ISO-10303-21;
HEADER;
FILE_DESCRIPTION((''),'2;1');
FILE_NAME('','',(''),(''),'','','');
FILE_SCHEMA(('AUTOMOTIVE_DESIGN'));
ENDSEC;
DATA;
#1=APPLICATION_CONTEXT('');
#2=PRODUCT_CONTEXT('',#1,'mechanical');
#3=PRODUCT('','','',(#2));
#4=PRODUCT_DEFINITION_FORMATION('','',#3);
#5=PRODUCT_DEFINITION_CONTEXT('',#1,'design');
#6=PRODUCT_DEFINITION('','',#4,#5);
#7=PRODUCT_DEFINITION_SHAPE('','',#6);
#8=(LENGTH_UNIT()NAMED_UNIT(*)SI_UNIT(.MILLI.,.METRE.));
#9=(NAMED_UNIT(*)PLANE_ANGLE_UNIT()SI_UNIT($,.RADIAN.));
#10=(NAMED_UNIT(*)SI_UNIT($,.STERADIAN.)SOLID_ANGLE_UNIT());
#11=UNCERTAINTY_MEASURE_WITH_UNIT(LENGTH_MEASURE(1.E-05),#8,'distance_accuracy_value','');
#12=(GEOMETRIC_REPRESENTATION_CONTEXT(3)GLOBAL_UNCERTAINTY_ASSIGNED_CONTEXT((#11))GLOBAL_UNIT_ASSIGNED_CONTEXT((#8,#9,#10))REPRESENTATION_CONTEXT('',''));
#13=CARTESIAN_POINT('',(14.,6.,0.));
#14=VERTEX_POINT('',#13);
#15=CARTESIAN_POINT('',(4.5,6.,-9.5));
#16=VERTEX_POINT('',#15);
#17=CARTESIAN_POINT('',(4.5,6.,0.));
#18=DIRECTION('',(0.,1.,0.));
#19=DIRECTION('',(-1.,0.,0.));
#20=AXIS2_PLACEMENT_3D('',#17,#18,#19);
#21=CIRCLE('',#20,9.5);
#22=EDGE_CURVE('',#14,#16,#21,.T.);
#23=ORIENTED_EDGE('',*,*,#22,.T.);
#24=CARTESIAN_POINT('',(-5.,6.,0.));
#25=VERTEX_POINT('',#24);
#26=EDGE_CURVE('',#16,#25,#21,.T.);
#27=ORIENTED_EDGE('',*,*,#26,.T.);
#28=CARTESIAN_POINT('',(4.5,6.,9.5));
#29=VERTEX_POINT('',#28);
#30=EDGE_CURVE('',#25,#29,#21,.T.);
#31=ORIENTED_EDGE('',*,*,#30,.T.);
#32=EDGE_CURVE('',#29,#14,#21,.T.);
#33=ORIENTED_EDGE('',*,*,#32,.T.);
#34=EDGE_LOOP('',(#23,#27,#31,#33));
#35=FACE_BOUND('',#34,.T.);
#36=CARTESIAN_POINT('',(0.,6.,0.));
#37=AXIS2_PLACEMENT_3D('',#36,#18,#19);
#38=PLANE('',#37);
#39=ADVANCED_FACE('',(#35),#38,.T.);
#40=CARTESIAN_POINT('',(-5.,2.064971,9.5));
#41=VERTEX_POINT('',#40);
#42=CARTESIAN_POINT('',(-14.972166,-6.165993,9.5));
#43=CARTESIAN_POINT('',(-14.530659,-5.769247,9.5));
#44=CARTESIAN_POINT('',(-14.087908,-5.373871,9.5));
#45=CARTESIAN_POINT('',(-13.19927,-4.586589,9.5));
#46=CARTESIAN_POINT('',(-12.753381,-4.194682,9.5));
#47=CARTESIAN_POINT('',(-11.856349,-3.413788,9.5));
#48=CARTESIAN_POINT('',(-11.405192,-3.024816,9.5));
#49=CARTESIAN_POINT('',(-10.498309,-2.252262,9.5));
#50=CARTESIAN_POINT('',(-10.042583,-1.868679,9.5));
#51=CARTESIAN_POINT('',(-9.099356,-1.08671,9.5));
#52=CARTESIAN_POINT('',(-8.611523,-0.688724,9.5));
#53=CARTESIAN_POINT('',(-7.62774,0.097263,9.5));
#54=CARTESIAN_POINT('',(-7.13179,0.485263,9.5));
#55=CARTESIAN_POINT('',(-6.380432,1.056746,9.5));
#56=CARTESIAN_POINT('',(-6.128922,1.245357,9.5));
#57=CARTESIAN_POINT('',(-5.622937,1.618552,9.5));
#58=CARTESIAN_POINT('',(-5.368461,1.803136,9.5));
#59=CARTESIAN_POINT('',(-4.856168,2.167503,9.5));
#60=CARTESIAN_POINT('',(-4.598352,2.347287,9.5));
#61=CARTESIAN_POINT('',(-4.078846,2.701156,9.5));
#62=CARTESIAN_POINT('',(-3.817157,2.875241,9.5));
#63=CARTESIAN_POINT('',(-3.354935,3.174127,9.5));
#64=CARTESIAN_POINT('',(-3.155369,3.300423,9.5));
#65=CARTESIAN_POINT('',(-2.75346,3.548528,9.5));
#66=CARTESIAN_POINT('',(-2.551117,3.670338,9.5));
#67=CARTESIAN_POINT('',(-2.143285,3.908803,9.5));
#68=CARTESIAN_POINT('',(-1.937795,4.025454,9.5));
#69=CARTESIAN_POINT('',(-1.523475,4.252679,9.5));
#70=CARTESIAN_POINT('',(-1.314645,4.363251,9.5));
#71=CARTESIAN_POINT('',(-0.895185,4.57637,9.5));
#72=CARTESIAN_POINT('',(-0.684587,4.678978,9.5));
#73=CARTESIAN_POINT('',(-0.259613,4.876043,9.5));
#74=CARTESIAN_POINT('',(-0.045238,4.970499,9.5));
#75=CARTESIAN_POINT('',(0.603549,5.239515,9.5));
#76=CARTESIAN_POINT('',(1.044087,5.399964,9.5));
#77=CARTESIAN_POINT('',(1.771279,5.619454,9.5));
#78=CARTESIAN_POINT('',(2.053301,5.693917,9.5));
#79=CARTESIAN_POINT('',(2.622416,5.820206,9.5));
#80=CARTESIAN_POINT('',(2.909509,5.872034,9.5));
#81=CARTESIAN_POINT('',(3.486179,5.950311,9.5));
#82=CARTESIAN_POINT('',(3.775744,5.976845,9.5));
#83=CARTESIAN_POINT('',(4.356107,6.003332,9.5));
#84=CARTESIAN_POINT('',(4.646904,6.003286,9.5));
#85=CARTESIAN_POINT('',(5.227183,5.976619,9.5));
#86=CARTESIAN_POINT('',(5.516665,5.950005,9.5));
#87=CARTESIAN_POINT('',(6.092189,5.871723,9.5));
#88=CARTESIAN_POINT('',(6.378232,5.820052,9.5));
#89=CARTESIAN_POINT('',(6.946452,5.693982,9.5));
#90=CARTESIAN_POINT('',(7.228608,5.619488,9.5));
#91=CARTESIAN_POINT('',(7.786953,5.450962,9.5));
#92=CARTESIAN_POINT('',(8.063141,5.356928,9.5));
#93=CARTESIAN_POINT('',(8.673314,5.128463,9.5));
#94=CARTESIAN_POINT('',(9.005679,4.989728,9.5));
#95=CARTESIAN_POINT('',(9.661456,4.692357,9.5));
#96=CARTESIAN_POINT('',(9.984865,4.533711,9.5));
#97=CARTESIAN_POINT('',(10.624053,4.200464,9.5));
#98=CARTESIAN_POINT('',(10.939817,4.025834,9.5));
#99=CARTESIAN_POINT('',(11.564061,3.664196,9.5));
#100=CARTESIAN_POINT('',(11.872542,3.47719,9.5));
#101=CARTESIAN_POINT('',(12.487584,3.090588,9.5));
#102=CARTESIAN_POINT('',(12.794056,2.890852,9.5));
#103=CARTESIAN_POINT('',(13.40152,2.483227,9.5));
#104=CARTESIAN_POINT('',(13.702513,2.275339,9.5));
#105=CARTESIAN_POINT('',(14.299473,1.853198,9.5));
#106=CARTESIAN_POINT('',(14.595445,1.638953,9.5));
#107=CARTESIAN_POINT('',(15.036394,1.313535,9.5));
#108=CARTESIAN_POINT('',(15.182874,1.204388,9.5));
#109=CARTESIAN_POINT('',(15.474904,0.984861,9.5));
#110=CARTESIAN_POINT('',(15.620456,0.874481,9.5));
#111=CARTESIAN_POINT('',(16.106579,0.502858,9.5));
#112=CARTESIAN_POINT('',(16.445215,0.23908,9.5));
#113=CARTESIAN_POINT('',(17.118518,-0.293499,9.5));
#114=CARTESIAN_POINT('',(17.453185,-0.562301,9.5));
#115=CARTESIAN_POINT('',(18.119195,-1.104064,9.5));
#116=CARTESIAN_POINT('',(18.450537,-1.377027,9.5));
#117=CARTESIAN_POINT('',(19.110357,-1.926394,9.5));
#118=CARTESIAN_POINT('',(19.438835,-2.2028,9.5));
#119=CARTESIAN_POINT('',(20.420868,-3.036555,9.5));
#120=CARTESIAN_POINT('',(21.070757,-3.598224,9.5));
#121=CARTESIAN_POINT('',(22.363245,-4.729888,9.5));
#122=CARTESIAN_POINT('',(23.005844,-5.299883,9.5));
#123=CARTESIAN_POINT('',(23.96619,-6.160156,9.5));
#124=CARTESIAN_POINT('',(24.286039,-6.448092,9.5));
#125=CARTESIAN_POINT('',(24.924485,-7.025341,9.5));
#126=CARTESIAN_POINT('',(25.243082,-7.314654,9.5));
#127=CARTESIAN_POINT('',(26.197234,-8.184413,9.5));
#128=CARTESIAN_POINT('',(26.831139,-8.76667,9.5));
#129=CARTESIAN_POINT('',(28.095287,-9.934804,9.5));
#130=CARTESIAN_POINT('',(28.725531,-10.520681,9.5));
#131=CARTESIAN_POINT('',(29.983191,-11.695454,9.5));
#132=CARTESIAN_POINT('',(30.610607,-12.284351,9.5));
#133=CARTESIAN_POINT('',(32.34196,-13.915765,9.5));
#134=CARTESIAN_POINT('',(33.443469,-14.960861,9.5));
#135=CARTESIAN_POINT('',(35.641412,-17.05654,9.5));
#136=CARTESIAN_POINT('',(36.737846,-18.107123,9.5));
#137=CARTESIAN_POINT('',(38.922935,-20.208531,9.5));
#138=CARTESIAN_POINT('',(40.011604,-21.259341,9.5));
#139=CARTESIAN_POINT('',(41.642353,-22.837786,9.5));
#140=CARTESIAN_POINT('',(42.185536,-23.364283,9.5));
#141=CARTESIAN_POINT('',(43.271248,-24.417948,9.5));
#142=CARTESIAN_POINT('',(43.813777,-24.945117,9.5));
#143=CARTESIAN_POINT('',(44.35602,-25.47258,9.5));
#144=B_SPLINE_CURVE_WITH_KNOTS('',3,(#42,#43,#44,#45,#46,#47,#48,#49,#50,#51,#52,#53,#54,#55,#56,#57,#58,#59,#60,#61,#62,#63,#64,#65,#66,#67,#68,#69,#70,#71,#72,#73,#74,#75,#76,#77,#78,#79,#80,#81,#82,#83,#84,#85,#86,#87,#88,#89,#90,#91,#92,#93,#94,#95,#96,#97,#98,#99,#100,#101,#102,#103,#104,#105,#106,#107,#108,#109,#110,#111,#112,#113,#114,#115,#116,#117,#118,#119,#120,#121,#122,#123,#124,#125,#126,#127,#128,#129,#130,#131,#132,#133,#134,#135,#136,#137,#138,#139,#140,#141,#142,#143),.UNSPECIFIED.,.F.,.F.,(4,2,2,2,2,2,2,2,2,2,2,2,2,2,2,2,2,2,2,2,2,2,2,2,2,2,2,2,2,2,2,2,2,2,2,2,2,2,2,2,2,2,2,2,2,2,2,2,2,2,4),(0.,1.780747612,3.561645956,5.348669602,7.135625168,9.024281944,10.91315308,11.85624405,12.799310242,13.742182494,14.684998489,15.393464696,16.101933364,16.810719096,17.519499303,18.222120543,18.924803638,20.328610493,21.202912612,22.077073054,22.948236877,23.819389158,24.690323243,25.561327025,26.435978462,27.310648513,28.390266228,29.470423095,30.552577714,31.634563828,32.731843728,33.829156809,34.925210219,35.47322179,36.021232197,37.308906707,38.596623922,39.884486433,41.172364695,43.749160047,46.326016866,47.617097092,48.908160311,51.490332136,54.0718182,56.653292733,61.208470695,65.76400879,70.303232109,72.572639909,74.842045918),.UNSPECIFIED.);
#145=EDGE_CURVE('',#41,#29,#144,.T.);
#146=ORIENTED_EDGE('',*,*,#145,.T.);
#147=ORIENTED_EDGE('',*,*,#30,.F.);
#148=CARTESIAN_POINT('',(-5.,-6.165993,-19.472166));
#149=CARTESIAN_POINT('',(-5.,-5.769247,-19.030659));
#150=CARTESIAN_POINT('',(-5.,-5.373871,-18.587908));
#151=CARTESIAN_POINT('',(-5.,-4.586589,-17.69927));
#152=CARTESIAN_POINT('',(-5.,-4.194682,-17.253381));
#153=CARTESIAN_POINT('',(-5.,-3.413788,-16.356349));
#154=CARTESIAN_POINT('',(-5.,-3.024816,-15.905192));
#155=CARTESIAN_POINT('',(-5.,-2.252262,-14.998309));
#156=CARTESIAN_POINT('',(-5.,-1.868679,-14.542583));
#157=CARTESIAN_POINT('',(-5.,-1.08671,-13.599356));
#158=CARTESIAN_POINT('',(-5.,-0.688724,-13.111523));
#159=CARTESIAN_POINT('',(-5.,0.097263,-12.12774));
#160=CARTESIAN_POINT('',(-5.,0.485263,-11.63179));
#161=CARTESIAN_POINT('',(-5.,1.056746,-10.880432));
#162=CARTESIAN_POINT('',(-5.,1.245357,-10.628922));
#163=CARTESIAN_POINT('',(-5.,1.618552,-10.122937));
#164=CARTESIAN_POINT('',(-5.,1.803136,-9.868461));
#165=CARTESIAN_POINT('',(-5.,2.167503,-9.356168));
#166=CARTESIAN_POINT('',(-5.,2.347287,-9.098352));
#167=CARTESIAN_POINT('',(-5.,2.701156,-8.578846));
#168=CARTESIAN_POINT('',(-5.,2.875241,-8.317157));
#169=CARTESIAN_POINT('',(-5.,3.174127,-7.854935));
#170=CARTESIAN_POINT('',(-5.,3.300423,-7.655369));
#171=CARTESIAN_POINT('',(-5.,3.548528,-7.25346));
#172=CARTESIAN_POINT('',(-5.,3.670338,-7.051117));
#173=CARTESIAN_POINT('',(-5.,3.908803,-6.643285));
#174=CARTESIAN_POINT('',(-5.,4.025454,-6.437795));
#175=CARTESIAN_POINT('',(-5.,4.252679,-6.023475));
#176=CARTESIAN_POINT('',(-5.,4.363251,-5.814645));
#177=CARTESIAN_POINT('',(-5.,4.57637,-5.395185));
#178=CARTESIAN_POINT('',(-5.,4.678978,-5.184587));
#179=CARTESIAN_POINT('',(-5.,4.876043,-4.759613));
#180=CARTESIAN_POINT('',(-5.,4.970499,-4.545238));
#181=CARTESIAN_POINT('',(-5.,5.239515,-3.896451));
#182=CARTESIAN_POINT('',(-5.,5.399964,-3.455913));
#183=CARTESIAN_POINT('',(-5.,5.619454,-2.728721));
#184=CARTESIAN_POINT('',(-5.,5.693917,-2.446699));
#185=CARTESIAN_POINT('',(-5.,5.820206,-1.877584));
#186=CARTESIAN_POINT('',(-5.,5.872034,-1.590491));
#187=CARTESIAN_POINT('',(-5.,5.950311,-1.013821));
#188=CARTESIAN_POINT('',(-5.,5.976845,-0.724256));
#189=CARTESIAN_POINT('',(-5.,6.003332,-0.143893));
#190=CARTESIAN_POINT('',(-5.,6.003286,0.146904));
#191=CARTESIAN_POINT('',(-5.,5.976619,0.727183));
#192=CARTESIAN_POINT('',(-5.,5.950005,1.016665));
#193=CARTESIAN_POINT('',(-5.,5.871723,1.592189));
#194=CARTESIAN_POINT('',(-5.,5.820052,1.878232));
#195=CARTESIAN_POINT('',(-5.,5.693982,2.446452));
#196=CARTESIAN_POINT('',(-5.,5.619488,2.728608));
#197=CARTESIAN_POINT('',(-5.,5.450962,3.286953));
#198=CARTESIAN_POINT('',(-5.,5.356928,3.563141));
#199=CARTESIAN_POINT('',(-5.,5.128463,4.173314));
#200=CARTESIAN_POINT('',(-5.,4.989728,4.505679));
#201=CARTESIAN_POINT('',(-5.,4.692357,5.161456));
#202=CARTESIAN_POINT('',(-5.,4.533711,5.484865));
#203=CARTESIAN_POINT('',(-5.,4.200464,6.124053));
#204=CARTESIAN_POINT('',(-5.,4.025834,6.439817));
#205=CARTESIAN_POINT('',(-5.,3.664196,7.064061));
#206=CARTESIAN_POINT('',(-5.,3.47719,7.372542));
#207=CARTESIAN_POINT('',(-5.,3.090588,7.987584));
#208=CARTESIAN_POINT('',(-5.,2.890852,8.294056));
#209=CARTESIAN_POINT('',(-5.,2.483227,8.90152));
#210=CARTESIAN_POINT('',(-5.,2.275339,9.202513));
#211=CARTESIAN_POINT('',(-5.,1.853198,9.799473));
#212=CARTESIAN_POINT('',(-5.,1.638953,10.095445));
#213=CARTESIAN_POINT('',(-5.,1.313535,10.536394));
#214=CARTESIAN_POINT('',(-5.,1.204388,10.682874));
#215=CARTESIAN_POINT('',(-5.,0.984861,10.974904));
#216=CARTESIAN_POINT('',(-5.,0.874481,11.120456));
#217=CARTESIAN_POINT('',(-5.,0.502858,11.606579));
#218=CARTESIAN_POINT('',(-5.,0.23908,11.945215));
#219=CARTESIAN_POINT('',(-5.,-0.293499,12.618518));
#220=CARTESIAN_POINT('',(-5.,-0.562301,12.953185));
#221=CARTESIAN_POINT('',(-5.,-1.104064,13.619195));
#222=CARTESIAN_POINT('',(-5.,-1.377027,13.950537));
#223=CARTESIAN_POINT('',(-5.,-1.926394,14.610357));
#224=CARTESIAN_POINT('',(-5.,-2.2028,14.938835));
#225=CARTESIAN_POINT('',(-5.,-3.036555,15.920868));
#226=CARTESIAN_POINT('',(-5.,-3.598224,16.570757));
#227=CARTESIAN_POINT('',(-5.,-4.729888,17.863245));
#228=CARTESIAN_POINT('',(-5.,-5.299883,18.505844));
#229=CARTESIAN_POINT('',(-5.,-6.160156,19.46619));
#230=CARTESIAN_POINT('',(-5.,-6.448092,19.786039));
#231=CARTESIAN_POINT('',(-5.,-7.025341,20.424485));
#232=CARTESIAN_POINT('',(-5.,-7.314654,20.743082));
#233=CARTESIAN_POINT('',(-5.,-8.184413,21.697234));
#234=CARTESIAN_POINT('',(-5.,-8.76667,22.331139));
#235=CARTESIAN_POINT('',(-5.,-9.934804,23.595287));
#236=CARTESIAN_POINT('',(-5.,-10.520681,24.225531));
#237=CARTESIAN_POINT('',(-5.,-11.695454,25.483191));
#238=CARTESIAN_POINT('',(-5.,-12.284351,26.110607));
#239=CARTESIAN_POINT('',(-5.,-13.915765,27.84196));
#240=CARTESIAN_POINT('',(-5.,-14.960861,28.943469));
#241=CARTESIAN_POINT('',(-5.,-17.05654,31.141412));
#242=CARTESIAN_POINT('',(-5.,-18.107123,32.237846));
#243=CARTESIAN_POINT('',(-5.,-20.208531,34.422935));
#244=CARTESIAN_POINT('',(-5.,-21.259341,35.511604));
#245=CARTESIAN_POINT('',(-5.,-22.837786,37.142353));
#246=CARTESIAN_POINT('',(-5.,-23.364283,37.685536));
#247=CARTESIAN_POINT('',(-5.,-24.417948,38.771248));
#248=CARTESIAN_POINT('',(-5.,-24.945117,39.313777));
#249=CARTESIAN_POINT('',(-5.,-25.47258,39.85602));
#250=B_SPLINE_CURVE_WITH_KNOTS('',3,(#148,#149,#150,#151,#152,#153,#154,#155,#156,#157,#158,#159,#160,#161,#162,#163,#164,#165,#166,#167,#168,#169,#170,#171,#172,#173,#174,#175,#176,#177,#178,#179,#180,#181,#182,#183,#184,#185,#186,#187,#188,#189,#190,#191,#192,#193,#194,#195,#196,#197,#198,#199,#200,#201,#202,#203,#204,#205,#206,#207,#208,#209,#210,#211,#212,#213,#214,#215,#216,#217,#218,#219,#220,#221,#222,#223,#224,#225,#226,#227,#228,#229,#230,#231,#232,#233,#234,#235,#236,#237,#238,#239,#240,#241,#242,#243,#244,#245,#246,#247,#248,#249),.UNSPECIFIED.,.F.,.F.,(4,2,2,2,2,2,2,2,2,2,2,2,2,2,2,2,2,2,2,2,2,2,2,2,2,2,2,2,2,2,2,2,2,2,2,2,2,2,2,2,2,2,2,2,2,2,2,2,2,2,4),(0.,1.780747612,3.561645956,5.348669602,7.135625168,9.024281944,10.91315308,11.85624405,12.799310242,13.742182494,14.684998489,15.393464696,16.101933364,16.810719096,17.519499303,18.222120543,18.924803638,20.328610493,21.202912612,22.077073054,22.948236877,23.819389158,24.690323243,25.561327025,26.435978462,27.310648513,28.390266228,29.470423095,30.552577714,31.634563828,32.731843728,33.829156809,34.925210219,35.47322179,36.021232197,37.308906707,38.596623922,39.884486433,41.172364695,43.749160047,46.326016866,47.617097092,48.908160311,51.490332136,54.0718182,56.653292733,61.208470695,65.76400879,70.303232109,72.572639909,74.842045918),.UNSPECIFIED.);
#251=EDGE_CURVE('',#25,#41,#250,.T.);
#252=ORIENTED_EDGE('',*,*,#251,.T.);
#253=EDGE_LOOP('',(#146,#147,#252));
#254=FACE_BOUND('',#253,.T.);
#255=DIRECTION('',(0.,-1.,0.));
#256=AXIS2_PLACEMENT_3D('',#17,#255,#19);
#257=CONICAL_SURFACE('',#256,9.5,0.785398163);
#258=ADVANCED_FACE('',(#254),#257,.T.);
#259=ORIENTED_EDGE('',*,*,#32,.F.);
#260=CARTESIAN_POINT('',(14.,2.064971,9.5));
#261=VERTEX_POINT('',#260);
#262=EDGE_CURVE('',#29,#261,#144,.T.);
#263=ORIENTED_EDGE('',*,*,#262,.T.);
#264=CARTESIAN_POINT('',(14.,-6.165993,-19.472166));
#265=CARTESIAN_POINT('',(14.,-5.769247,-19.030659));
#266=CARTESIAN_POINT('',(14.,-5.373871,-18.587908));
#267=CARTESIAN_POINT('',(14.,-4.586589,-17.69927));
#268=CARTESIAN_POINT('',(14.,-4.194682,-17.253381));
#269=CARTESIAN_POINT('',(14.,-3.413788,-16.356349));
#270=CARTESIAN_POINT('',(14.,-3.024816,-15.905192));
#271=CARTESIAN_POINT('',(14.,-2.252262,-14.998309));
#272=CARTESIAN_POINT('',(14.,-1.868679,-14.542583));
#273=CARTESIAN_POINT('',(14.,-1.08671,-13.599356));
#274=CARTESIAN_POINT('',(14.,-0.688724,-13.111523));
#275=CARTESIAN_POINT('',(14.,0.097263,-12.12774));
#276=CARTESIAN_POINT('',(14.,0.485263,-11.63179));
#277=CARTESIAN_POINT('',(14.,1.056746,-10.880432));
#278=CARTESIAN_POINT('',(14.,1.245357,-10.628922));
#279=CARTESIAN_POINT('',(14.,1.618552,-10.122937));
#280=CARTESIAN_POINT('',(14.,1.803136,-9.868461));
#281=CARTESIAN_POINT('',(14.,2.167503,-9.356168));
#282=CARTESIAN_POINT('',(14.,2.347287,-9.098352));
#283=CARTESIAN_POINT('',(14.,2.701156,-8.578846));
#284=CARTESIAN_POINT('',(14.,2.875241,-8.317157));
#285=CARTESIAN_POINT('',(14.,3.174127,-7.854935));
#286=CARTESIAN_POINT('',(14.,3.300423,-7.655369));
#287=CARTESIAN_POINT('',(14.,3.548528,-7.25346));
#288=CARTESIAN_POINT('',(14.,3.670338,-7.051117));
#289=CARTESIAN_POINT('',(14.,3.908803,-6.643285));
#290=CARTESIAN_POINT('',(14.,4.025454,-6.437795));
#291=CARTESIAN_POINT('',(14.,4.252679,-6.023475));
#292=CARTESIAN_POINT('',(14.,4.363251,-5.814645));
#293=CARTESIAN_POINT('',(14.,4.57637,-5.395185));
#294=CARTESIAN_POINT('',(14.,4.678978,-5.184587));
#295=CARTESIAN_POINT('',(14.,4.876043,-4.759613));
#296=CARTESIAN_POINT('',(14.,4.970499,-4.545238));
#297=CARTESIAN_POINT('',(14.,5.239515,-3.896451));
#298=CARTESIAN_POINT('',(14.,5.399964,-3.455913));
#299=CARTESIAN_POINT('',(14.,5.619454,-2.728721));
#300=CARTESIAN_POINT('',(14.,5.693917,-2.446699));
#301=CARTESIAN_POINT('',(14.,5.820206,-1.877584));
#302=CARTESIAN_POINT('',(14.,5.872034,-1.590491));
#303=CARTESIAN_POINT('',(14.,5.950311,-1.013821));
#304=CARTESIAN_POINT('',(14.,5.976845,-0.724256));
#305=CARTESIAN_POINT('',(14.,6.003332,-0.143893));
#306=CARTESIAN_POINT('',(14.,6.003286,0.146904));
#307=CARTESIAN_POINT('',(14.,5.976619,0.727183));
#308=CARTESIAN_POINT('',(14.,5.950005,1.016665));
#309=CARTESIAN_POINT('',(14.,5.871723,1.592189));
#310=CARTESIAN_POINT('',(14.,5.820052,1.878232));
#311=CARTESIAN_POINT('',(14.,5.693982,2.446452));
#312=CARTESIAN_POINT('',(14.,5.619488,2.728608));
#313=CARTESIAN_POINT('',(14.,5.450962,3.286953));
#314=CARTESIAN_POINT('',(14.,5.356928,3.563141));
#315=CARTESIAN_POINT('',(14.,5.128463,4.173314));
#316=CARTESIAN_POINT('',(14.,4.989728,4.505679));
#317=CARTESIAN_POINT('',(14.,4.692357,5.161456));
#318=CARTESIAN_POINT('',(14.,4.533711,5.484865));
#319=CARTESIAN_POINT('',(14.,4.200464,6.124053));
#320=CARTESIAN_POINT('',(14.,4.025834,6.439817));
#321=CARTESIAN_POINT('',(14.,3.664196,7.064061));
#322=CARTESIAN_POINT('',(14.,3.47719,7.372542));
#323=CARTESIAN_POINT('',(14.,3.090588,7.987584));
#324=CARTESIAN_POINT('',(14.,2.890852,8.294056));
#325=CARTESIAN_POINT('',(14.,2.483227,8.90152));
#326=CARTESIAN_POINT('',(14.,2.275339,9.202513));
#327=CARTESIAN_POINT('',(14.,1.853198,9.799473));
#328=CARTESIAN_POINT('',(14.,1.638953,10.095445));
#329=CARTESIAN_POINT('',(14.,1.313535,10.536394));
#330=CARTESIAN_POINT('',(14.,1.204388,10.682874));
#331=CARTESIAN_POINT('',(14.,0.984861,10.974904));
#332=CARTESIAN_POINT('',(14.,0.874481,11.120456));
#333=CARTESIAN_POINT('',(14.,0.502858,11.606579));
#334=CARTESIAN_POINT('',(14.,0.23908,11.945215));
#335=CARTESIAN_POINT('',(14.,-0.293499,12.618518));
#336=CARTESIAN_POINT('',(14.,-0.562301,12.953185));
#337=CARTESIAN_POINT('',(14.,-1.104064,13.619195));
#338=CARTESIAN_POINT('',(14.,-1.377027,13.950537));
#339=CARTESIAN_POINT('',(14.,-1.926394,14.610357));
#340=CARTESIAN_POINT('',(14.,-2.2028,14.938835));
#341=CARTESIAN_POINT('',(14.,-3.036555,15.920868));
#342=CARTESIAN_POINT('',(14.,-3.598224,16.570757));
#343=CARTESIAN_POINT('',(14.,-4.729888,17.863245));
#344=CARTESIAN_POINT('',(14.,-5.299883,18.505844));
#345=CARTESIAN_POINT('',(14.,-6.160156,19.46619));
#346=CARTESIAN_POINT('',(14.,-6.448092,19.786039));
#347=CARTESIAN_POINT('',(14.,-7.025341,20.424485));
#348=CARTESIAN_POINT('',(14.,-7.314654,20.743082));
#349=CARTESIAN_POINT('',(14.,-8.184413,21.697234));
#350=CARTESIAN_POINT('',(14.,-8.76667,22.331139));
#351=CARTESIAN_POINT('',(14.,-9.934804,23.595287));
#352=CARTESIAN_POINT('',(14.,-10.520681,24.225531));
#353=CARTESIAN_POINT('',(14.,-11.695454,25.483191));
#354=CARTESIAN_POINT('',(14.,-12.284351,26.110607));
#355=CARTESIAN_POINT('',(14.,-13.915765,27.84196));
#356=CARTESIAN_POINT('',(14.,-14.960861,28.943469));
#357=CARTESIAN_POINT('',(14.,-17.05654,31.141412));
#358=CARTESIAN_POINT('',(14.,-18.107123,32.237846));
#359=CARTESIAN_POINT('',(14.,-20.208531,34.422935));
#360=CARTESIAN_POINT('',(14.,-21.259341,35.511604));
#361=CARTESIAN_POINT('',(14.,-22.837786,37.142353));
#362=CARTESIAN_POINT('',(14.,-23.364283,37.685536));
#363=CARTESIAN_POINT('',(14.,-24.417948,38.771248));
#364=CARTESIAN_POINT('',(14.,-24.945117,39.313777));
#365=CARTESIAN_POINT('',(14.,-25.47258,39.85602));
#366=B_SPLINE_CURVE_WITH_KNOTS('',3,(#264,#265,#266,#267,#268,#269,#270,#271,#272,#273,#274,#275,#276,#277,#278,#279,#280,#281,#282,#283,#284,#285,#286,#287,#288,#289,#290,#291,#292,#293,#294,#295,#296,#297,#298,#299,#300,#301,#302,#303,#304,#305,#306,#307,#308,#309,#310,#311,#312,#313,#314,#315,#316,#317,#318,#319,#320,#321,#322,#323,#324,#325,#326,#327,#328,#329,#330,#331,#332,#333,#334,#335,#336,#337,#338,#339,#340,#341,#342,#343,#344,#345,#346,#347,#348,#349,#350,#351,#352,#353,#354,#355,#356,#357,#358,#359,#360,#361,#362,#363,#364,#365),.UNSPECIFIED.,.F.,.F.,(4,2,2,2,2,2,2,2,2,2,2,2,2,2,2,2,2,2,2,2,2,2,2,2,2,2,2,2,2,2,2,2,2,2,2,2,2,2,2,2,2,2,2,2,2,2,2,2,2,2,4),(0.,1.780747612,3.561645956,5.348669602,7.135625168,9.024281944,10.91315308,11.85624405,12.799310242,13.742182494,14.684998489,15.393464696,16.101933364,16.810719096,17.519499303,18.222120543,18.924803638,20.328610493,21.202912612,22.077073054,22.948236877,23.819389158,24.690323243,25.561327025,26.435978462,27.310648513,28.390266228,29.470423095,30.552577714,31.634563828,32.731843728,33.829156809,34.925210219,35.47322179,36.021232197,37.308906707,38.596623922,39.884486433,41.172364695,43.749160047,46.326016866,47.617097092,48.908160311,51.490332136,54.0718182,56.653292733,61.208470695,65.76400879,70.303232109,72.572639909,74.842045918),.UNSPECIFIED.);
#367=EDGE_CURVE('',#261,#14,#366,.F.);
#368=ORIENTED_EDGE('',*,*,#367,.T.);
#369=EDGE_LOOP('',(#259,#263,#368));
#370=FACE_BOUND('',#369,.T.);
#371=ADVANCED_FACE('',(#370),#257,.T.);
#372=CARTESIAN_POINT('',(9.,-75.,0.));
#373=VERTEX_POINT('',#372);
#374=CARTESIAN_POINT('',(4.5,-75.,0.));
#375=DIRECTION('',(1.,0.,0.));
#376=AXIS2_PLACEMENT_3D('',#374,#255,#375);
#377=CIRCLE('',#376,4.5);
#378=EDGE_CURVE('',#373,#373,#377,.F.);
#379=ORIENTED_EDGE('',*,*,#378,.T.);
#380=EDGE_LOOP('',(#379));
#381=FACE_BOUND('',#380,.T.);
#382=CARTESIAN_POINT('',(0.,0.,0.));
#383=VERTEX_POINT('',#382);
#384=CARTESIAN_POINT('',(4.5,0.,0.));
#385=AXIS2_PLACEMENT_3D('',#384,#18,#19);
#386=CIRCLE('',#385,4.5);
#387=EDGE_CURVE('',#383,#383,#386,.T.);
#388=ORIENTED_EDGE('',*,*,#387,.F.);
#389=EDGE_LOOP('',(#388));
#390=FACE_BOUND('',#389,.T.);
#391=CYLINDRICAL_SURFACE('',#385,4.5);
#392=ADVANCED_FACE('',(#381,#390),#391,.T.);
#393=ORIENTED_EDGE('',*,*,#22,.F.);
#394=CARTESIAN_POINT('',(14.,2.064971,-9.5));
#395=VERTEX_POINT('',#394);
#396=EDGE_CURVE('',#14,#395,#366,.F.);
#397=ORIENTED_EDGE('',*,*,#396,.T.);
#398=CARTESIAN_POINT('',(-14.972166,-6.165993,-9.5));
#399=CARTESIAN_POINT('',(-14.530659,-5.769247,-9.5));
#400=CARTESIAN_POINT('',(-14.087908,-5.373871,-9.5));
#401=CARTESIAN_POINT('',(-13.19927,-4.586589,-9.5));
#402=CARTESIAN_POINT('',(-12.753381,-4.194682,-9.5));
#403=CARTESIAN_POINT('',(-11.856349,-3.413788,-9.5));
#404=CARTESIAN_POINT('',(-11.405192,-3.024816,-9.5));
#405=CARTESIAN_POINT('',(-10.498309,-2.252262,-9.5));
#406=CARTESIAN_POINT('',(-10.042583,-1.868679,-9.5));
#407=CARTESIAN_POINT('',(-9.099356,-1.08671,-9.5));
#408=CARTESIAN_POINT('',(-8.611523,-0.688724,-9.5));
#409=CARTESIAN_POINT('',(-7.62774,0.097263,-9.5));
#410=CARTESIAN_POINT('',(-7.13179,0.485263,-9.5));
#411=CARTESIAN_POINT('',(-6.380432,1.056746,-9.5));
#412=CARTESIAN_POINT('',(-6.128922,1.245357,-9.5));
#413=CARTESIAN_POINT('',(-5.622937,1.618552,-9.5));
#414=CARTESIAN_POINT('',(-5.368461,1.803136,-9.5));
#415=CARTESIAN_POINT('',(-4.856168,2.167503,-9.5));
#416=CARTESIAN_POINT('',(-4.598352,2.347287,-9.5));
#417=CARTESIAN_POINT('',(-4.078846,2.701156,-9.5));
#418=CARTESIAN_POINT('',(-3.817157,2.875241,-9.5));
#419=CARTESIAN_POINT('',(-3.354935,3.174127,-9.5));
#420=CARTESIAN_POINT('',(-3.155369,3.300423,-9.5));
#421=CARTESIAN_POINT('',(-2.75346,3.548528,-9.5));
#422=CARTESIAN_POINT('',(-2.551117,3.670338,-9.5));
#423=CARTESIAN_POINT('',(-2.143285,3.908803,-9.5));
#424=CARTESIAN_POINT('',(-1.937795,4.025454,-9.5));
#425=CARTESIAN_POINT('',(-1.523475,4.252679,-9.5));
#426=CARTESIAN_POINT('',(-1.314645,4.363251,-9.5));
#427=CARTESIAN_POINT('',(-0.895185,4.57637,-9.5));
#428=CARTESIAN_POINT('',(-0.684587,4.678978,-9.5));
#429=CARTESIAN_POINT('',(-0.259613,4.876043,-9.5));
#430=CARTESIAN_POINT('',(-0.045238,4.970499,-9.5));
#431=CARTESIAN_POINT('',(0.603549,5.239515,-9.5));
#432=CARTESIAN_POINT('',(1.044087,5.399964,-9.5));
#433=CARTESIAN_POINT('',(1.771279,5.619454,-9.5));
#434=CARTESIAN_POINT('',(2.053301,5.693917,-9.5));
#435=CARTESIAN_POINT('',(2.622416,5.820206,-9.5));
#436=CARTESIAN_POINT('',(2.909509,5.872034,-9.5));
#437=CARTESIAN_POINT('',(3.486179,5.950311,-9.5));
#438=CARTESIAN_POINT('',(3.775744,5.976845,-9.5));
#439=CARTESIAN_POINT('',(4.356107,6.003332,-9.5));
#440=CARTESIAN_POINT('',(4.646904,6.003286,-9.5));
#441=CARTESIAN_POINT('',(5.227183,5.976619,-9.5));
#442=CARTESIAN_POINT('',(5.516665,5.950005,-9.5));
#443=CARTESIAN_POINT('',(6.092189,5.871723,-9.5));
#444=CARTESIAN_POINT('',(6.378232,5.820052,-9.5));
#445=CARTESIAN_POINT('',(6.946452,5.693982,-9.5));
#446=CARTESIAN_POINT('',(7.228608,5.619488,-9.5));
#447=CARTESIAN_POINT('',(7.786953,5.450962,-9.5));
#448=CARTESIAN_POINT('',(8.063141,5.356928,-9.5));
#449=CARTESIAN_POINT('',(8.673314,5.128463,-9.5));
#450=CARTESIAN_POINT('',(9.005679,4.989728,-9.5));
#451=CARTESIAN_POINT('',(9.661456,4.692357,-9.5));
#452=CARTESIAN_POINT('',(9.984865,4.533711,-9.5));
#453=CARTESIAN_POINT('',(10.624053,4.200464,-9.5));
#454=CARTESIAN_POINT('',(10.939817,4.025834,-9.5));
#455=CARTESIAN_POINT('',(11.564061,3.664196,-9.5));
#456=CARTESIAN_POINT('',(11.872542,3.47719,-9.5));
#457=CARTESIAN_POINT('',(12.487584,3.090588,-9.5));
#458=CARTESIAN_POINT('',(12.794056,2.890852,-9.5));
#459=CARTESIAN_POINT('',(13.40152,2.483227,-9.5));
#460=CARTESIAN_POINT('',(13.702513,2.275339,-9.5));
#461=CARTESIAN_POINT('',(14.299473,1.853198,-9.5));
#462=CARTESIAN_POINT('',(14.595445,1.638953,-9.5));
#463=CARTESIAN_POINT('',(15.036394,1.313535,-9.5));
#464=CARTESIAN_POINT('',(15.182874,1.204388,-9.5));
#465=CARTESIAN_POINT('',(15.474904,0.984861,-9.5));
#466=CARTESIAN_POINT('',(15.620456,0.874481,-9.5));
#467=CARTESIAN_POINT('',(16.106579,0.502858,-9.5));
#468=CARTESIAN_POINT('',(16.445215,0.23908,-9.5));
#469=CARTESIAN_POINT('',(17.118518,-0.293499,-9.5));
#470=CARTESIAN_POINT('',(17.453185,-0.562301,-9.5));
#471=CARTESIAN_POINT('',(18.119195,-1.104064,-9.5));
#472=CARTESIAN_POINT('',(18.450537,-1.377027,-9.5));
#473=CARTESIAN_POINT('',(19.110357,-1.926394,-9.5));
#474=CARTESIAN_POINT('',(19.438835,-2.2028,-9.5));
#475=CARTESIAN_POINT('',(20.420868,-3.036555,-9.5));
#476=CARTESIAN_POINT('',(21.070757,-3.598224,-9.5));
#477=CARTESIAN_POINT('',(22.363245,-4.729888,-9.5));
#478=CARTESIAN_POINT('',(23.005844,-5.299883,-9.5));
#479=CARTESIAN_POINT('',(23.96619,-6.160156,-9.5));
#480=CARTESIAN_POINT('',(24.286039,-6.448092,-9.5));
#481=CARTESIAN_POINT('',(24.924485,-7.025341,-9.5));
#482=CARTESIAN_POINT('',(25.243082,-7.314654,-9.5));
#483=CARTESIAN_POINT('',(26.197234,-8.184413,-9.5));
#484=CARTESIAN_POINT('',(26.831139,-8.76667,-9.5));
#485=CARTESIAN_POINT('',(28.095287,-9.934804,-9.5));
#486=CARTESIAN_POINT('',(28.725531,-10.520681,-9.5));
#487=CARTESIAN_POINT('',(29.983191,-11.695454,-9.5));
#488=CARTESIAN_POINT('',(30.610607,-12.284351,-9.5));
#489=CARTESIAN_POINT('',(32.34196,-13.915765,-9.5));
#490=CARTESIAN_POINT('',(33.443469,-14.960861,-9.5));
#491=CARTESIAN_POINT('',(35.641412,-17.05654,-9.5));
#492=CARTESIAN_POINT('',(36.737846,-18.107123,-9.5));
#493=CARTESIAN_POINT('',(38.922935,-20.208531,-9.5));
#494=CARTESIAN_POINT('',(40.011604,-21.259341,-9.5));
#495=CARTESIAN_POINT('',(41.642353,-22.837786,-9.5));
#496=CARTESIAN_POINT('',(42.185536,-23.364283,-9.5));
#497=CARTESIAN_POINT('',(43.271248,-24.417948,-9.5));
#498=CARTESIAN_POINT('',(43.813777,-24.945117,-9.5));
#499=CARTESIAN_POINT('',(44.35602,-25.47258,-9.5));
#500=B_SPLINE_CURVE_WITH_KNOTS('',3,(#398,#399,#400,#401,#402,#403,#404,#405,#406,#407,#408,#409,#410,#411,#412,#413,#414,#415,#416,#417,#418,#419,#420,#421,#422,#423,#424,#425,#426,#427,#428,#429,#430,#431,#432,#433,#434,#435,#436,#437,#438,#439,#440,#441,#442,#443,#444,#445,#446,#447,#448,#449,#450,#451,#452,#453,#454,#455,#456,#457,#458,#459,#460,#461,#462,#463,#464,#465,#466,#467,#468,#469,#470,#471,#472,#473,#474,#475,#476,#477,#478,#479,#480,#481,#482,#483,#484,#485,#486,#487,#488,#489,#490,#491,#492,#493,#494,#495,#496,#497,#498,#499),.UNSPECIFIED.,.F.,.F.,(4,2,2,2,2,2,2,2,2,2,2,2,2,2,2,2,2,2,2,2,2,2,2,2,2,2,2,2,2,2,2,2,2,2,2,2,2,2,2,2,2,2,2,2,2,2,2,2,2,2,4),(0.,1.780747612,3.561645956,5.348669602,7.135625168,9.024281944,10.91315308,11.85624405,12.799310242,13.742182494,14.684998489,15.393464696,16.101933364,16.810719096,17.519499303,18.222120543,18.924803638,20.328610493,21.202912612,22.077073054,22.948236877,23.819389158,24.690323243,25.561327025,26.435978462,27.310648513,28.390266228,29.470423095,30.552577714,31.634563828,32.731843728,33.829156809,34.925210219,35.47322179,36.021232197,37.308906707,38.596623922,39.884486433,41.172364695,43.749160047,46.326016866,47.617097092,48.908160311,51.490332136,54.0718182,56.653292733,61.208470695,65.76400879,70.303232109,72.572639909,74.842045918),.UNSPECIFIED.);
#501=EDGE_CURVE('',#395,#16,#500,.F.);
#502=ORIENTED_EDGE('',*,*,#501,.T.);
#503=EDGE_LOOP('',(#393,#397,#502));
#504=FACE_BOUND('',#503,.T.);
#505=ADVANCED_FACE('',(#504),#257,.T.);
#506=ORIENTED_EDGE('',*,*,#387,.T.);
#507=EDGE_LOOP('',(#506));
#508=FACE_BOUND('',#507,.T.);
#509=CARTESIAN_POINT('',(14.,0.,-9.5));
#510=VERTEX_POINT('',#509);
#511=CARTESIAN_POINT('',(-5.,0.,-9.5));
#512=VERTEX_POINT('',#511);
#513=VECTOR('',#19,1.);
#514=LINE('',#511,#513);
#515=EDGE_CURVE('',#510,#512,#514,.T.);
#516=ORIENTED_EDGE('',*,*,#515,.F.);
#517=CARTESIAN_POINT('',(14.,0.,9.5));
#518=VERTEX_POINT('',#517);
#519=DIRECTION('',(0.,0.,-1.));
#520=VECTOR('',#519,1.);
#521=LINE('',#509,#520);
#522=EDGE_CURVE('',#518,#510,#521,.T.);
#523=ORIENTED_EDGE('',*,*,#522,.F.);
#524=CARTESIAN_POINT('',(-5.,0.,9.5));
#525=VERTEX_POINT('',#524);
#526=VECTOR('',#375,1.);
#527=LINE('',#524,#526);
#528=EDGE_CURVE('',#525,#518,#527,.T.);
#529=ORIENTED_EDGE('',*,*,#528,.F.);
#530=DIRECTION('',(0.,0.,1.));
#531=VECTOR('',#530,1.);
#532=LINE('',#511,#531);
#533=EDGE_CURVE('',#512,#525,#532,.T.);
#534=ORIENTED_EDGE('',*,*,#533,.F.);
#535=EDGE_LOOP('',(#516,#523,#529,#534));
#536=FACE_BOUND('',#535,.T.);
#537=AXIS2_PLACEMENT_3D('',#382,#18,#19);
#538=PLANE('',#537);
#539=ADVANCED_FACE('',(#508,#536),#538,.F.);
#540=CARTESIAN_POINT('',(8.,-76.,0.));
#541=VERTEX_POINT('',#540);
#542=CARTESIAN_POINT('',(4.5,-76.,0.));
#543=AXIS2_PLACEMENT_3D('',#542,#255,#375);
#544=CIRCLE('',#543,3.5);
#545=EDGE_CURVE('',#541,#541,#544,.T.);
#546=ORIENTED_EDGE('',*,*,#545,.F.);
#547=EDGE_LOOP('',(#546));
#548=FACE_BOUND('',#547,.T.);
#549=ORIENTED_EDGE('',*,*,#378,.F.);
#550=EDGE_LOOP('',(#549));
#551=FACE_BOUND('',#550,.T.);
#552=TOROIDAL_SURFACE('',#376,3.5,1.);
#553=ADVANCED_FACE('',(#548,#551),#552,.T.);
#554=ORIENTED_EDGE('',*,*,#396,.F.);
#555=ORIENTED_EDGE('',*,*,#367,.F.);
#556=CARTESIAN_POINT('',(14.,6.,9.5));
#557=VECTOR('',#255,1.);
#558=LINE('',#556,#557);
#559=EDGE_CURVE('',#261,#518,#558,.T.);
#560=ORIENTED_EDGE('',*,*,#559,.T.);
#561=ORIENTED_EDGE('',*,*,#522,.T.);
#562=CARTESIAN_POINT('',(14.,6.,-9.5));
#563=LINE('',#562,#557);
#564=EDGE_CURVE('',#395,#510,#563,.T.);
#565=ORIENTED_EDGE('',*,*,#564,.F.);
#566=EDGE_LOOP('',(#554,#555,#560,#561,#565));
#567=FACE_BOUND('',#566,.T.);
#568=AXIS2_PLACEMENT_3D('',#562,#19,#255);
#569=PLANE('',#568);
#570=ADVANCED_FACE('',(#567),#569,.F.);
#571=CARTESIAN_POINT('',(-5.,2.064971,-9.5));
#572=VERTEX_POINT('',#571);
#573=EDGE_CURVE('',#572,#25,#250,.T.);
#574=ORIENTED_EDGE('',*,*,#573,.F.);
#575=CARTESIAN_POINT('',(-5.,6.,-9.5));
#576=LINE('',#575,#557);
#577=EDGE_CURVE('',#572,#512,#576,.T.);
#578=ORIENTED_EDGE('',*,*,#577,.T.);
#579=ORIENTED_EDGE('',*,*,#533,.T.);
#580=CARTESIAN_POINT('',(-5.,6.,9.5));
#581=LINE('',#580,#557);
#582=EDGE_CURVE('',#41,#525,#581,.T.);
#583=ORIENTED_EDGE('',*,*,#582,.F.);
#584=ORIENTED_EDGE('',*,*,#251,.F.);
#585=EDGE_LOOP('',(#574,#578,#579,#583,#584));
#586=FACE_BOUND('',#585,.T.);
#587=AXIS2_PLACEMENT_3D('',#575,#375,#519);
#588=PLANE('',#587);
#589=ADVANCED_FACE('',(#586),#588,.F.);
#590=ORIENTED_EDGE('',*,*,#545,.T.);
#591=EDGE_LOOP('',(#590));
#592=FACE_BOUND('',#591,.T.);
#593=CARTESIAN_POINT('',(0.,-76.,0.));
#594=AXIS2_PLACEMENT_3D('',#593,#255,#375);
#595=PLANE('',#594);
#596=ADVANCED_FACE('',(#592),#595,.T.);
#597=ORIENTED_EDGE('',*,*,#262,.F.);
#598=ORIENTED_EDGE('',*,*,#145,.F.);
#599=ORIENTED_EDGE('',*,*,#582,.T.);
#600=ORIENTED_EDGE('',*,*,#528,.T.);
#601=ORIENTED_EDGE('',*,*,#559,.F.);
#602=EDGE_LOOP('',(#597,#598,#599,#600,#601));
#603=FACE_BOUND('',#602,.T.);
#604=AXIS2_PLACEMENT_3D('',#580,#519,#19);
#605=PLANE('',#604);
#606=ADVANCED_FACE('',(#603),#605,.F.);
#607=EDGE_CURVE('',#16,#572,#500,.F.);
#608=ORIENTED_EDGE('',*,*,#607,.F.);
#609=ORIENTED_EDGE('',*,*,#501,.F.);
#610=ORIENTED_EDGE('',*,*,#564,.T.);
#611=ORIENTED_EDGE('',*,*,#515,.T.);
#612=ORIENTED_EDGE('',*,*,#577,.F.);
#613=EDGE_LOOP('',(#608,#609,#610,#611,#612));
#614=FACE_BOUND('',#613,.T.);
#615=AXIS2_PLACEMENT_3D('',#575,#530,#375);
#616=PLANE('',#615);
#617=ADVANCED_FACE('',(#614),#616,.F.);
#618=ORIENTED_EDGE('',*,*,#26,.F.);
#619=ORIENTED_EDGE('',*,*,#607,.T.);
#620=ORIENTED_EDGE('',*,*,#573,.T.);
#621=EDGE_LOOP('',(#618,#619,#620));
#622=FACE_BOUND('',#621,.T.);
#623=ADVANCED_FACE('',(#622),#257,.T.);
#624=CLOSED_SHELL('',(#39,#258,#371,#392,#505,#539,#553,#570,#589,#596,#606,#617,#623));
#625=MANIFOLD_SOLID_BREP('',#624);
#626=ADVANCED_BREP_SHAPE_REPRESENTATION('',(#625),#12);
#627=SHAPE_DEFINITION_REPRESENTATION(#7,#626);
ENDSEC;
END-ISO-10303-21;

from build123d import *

# Parameters (mm, degrees)
SKETCH1_W           = 4.5
SKETCH1_H           = 76
SKETCH2_W           = 19
SKETCH2_H           = 19
BOSS_EXTRUDE1_DEPTH = 6
FILLET4_R           = 1
SKETCH7_OUTSIDE_W   = 58.258
SKETCH7_OUTSIDE_H   = 58.258
SKETCH7_OUTSIDE_R   = 9.5
CUT_EXTRUDE1_DEPTH  = 10
CUT_EXTRUDE1_DRAFT  = -45


with BuildPart() as part:
    # Sketch1 → Revolve1 (revolve)
    with BuildSketch(Plane.XY):
        with Locations((2.25, -38)):
            Rectangle(SKETCH1_W, SKETCH1_H)
    revolve(axis=Axis((4.5, 0, 0), (0, -1, 0)))

    # Sketch2 → Boss-Extrude1 (add)
    with BuildSketch(Plane(origin=(0, 0, 0), x_dir=(1, 0, 0), z_dir=(0, 1, 0))):
        with Locations((4.5, 0)):
            Rectangle(SKETCH2_W, SKETCH2_H)
    extrude(amount=BOSS_EXTRUDE1_DEPTH)

    # Fillet4
    fillet4_edges = [part.edges().sort_by_distance(p)[0] for p in [
        (9, -76, 0),
    ]]
    fillet(fillet4_edges, radius=FILLET4_R)


with BuildPart() as cut_extrude1_tool:
    # Sketch7 outside → Cut-Extrude1 (with draft: the straight prism first)
    with BuildSketch(Plane(origin=(0, 6, 0), x_dir=(1, 0, 0), z_dir=(0, 1, 0))):
        with Locations((4.5, 0)):
            Rectangle(SKETCH7_OUTSIDE_W, SKETCH7_OUTSIDE_H)
        with Locations((4.5, 0)):
            Circle(SKETCH7_OUTSIDE_R, mode=Mode.SUBTRACT)
    extrude(amount=-CUT_EXTRUDE1_DEPTH)
    # Cut-Extrude1: the draft: its side faces are tilted about the plane it starts from
    cut_extrude1_sides = [cut_extrude1_tool.faces().sort_by_distance(p)[0] for p in [
        (4.5, 1, 29.129),
        (33.629, 1, 0),
        (4.5, 1, -29.129),
        (-24.629, 1, 0),
        (-5, 1, 0),
    ]]
    draft(cut_extrude1_sides, Plane(origin=(0, 6, 0), x_dir=(1, 0, 0), z_dir=(0, 1, 0)), CUT_EXTRUDE1_DRAFT)


with BuildPart() as part_1:
    add(part.part)

    # Cut-Extrude1: cut by cut_extrude1_tool
    add(cut_extrude1_tool.part, mode=Mode.SUBTRACT)


solid = part_1.part
